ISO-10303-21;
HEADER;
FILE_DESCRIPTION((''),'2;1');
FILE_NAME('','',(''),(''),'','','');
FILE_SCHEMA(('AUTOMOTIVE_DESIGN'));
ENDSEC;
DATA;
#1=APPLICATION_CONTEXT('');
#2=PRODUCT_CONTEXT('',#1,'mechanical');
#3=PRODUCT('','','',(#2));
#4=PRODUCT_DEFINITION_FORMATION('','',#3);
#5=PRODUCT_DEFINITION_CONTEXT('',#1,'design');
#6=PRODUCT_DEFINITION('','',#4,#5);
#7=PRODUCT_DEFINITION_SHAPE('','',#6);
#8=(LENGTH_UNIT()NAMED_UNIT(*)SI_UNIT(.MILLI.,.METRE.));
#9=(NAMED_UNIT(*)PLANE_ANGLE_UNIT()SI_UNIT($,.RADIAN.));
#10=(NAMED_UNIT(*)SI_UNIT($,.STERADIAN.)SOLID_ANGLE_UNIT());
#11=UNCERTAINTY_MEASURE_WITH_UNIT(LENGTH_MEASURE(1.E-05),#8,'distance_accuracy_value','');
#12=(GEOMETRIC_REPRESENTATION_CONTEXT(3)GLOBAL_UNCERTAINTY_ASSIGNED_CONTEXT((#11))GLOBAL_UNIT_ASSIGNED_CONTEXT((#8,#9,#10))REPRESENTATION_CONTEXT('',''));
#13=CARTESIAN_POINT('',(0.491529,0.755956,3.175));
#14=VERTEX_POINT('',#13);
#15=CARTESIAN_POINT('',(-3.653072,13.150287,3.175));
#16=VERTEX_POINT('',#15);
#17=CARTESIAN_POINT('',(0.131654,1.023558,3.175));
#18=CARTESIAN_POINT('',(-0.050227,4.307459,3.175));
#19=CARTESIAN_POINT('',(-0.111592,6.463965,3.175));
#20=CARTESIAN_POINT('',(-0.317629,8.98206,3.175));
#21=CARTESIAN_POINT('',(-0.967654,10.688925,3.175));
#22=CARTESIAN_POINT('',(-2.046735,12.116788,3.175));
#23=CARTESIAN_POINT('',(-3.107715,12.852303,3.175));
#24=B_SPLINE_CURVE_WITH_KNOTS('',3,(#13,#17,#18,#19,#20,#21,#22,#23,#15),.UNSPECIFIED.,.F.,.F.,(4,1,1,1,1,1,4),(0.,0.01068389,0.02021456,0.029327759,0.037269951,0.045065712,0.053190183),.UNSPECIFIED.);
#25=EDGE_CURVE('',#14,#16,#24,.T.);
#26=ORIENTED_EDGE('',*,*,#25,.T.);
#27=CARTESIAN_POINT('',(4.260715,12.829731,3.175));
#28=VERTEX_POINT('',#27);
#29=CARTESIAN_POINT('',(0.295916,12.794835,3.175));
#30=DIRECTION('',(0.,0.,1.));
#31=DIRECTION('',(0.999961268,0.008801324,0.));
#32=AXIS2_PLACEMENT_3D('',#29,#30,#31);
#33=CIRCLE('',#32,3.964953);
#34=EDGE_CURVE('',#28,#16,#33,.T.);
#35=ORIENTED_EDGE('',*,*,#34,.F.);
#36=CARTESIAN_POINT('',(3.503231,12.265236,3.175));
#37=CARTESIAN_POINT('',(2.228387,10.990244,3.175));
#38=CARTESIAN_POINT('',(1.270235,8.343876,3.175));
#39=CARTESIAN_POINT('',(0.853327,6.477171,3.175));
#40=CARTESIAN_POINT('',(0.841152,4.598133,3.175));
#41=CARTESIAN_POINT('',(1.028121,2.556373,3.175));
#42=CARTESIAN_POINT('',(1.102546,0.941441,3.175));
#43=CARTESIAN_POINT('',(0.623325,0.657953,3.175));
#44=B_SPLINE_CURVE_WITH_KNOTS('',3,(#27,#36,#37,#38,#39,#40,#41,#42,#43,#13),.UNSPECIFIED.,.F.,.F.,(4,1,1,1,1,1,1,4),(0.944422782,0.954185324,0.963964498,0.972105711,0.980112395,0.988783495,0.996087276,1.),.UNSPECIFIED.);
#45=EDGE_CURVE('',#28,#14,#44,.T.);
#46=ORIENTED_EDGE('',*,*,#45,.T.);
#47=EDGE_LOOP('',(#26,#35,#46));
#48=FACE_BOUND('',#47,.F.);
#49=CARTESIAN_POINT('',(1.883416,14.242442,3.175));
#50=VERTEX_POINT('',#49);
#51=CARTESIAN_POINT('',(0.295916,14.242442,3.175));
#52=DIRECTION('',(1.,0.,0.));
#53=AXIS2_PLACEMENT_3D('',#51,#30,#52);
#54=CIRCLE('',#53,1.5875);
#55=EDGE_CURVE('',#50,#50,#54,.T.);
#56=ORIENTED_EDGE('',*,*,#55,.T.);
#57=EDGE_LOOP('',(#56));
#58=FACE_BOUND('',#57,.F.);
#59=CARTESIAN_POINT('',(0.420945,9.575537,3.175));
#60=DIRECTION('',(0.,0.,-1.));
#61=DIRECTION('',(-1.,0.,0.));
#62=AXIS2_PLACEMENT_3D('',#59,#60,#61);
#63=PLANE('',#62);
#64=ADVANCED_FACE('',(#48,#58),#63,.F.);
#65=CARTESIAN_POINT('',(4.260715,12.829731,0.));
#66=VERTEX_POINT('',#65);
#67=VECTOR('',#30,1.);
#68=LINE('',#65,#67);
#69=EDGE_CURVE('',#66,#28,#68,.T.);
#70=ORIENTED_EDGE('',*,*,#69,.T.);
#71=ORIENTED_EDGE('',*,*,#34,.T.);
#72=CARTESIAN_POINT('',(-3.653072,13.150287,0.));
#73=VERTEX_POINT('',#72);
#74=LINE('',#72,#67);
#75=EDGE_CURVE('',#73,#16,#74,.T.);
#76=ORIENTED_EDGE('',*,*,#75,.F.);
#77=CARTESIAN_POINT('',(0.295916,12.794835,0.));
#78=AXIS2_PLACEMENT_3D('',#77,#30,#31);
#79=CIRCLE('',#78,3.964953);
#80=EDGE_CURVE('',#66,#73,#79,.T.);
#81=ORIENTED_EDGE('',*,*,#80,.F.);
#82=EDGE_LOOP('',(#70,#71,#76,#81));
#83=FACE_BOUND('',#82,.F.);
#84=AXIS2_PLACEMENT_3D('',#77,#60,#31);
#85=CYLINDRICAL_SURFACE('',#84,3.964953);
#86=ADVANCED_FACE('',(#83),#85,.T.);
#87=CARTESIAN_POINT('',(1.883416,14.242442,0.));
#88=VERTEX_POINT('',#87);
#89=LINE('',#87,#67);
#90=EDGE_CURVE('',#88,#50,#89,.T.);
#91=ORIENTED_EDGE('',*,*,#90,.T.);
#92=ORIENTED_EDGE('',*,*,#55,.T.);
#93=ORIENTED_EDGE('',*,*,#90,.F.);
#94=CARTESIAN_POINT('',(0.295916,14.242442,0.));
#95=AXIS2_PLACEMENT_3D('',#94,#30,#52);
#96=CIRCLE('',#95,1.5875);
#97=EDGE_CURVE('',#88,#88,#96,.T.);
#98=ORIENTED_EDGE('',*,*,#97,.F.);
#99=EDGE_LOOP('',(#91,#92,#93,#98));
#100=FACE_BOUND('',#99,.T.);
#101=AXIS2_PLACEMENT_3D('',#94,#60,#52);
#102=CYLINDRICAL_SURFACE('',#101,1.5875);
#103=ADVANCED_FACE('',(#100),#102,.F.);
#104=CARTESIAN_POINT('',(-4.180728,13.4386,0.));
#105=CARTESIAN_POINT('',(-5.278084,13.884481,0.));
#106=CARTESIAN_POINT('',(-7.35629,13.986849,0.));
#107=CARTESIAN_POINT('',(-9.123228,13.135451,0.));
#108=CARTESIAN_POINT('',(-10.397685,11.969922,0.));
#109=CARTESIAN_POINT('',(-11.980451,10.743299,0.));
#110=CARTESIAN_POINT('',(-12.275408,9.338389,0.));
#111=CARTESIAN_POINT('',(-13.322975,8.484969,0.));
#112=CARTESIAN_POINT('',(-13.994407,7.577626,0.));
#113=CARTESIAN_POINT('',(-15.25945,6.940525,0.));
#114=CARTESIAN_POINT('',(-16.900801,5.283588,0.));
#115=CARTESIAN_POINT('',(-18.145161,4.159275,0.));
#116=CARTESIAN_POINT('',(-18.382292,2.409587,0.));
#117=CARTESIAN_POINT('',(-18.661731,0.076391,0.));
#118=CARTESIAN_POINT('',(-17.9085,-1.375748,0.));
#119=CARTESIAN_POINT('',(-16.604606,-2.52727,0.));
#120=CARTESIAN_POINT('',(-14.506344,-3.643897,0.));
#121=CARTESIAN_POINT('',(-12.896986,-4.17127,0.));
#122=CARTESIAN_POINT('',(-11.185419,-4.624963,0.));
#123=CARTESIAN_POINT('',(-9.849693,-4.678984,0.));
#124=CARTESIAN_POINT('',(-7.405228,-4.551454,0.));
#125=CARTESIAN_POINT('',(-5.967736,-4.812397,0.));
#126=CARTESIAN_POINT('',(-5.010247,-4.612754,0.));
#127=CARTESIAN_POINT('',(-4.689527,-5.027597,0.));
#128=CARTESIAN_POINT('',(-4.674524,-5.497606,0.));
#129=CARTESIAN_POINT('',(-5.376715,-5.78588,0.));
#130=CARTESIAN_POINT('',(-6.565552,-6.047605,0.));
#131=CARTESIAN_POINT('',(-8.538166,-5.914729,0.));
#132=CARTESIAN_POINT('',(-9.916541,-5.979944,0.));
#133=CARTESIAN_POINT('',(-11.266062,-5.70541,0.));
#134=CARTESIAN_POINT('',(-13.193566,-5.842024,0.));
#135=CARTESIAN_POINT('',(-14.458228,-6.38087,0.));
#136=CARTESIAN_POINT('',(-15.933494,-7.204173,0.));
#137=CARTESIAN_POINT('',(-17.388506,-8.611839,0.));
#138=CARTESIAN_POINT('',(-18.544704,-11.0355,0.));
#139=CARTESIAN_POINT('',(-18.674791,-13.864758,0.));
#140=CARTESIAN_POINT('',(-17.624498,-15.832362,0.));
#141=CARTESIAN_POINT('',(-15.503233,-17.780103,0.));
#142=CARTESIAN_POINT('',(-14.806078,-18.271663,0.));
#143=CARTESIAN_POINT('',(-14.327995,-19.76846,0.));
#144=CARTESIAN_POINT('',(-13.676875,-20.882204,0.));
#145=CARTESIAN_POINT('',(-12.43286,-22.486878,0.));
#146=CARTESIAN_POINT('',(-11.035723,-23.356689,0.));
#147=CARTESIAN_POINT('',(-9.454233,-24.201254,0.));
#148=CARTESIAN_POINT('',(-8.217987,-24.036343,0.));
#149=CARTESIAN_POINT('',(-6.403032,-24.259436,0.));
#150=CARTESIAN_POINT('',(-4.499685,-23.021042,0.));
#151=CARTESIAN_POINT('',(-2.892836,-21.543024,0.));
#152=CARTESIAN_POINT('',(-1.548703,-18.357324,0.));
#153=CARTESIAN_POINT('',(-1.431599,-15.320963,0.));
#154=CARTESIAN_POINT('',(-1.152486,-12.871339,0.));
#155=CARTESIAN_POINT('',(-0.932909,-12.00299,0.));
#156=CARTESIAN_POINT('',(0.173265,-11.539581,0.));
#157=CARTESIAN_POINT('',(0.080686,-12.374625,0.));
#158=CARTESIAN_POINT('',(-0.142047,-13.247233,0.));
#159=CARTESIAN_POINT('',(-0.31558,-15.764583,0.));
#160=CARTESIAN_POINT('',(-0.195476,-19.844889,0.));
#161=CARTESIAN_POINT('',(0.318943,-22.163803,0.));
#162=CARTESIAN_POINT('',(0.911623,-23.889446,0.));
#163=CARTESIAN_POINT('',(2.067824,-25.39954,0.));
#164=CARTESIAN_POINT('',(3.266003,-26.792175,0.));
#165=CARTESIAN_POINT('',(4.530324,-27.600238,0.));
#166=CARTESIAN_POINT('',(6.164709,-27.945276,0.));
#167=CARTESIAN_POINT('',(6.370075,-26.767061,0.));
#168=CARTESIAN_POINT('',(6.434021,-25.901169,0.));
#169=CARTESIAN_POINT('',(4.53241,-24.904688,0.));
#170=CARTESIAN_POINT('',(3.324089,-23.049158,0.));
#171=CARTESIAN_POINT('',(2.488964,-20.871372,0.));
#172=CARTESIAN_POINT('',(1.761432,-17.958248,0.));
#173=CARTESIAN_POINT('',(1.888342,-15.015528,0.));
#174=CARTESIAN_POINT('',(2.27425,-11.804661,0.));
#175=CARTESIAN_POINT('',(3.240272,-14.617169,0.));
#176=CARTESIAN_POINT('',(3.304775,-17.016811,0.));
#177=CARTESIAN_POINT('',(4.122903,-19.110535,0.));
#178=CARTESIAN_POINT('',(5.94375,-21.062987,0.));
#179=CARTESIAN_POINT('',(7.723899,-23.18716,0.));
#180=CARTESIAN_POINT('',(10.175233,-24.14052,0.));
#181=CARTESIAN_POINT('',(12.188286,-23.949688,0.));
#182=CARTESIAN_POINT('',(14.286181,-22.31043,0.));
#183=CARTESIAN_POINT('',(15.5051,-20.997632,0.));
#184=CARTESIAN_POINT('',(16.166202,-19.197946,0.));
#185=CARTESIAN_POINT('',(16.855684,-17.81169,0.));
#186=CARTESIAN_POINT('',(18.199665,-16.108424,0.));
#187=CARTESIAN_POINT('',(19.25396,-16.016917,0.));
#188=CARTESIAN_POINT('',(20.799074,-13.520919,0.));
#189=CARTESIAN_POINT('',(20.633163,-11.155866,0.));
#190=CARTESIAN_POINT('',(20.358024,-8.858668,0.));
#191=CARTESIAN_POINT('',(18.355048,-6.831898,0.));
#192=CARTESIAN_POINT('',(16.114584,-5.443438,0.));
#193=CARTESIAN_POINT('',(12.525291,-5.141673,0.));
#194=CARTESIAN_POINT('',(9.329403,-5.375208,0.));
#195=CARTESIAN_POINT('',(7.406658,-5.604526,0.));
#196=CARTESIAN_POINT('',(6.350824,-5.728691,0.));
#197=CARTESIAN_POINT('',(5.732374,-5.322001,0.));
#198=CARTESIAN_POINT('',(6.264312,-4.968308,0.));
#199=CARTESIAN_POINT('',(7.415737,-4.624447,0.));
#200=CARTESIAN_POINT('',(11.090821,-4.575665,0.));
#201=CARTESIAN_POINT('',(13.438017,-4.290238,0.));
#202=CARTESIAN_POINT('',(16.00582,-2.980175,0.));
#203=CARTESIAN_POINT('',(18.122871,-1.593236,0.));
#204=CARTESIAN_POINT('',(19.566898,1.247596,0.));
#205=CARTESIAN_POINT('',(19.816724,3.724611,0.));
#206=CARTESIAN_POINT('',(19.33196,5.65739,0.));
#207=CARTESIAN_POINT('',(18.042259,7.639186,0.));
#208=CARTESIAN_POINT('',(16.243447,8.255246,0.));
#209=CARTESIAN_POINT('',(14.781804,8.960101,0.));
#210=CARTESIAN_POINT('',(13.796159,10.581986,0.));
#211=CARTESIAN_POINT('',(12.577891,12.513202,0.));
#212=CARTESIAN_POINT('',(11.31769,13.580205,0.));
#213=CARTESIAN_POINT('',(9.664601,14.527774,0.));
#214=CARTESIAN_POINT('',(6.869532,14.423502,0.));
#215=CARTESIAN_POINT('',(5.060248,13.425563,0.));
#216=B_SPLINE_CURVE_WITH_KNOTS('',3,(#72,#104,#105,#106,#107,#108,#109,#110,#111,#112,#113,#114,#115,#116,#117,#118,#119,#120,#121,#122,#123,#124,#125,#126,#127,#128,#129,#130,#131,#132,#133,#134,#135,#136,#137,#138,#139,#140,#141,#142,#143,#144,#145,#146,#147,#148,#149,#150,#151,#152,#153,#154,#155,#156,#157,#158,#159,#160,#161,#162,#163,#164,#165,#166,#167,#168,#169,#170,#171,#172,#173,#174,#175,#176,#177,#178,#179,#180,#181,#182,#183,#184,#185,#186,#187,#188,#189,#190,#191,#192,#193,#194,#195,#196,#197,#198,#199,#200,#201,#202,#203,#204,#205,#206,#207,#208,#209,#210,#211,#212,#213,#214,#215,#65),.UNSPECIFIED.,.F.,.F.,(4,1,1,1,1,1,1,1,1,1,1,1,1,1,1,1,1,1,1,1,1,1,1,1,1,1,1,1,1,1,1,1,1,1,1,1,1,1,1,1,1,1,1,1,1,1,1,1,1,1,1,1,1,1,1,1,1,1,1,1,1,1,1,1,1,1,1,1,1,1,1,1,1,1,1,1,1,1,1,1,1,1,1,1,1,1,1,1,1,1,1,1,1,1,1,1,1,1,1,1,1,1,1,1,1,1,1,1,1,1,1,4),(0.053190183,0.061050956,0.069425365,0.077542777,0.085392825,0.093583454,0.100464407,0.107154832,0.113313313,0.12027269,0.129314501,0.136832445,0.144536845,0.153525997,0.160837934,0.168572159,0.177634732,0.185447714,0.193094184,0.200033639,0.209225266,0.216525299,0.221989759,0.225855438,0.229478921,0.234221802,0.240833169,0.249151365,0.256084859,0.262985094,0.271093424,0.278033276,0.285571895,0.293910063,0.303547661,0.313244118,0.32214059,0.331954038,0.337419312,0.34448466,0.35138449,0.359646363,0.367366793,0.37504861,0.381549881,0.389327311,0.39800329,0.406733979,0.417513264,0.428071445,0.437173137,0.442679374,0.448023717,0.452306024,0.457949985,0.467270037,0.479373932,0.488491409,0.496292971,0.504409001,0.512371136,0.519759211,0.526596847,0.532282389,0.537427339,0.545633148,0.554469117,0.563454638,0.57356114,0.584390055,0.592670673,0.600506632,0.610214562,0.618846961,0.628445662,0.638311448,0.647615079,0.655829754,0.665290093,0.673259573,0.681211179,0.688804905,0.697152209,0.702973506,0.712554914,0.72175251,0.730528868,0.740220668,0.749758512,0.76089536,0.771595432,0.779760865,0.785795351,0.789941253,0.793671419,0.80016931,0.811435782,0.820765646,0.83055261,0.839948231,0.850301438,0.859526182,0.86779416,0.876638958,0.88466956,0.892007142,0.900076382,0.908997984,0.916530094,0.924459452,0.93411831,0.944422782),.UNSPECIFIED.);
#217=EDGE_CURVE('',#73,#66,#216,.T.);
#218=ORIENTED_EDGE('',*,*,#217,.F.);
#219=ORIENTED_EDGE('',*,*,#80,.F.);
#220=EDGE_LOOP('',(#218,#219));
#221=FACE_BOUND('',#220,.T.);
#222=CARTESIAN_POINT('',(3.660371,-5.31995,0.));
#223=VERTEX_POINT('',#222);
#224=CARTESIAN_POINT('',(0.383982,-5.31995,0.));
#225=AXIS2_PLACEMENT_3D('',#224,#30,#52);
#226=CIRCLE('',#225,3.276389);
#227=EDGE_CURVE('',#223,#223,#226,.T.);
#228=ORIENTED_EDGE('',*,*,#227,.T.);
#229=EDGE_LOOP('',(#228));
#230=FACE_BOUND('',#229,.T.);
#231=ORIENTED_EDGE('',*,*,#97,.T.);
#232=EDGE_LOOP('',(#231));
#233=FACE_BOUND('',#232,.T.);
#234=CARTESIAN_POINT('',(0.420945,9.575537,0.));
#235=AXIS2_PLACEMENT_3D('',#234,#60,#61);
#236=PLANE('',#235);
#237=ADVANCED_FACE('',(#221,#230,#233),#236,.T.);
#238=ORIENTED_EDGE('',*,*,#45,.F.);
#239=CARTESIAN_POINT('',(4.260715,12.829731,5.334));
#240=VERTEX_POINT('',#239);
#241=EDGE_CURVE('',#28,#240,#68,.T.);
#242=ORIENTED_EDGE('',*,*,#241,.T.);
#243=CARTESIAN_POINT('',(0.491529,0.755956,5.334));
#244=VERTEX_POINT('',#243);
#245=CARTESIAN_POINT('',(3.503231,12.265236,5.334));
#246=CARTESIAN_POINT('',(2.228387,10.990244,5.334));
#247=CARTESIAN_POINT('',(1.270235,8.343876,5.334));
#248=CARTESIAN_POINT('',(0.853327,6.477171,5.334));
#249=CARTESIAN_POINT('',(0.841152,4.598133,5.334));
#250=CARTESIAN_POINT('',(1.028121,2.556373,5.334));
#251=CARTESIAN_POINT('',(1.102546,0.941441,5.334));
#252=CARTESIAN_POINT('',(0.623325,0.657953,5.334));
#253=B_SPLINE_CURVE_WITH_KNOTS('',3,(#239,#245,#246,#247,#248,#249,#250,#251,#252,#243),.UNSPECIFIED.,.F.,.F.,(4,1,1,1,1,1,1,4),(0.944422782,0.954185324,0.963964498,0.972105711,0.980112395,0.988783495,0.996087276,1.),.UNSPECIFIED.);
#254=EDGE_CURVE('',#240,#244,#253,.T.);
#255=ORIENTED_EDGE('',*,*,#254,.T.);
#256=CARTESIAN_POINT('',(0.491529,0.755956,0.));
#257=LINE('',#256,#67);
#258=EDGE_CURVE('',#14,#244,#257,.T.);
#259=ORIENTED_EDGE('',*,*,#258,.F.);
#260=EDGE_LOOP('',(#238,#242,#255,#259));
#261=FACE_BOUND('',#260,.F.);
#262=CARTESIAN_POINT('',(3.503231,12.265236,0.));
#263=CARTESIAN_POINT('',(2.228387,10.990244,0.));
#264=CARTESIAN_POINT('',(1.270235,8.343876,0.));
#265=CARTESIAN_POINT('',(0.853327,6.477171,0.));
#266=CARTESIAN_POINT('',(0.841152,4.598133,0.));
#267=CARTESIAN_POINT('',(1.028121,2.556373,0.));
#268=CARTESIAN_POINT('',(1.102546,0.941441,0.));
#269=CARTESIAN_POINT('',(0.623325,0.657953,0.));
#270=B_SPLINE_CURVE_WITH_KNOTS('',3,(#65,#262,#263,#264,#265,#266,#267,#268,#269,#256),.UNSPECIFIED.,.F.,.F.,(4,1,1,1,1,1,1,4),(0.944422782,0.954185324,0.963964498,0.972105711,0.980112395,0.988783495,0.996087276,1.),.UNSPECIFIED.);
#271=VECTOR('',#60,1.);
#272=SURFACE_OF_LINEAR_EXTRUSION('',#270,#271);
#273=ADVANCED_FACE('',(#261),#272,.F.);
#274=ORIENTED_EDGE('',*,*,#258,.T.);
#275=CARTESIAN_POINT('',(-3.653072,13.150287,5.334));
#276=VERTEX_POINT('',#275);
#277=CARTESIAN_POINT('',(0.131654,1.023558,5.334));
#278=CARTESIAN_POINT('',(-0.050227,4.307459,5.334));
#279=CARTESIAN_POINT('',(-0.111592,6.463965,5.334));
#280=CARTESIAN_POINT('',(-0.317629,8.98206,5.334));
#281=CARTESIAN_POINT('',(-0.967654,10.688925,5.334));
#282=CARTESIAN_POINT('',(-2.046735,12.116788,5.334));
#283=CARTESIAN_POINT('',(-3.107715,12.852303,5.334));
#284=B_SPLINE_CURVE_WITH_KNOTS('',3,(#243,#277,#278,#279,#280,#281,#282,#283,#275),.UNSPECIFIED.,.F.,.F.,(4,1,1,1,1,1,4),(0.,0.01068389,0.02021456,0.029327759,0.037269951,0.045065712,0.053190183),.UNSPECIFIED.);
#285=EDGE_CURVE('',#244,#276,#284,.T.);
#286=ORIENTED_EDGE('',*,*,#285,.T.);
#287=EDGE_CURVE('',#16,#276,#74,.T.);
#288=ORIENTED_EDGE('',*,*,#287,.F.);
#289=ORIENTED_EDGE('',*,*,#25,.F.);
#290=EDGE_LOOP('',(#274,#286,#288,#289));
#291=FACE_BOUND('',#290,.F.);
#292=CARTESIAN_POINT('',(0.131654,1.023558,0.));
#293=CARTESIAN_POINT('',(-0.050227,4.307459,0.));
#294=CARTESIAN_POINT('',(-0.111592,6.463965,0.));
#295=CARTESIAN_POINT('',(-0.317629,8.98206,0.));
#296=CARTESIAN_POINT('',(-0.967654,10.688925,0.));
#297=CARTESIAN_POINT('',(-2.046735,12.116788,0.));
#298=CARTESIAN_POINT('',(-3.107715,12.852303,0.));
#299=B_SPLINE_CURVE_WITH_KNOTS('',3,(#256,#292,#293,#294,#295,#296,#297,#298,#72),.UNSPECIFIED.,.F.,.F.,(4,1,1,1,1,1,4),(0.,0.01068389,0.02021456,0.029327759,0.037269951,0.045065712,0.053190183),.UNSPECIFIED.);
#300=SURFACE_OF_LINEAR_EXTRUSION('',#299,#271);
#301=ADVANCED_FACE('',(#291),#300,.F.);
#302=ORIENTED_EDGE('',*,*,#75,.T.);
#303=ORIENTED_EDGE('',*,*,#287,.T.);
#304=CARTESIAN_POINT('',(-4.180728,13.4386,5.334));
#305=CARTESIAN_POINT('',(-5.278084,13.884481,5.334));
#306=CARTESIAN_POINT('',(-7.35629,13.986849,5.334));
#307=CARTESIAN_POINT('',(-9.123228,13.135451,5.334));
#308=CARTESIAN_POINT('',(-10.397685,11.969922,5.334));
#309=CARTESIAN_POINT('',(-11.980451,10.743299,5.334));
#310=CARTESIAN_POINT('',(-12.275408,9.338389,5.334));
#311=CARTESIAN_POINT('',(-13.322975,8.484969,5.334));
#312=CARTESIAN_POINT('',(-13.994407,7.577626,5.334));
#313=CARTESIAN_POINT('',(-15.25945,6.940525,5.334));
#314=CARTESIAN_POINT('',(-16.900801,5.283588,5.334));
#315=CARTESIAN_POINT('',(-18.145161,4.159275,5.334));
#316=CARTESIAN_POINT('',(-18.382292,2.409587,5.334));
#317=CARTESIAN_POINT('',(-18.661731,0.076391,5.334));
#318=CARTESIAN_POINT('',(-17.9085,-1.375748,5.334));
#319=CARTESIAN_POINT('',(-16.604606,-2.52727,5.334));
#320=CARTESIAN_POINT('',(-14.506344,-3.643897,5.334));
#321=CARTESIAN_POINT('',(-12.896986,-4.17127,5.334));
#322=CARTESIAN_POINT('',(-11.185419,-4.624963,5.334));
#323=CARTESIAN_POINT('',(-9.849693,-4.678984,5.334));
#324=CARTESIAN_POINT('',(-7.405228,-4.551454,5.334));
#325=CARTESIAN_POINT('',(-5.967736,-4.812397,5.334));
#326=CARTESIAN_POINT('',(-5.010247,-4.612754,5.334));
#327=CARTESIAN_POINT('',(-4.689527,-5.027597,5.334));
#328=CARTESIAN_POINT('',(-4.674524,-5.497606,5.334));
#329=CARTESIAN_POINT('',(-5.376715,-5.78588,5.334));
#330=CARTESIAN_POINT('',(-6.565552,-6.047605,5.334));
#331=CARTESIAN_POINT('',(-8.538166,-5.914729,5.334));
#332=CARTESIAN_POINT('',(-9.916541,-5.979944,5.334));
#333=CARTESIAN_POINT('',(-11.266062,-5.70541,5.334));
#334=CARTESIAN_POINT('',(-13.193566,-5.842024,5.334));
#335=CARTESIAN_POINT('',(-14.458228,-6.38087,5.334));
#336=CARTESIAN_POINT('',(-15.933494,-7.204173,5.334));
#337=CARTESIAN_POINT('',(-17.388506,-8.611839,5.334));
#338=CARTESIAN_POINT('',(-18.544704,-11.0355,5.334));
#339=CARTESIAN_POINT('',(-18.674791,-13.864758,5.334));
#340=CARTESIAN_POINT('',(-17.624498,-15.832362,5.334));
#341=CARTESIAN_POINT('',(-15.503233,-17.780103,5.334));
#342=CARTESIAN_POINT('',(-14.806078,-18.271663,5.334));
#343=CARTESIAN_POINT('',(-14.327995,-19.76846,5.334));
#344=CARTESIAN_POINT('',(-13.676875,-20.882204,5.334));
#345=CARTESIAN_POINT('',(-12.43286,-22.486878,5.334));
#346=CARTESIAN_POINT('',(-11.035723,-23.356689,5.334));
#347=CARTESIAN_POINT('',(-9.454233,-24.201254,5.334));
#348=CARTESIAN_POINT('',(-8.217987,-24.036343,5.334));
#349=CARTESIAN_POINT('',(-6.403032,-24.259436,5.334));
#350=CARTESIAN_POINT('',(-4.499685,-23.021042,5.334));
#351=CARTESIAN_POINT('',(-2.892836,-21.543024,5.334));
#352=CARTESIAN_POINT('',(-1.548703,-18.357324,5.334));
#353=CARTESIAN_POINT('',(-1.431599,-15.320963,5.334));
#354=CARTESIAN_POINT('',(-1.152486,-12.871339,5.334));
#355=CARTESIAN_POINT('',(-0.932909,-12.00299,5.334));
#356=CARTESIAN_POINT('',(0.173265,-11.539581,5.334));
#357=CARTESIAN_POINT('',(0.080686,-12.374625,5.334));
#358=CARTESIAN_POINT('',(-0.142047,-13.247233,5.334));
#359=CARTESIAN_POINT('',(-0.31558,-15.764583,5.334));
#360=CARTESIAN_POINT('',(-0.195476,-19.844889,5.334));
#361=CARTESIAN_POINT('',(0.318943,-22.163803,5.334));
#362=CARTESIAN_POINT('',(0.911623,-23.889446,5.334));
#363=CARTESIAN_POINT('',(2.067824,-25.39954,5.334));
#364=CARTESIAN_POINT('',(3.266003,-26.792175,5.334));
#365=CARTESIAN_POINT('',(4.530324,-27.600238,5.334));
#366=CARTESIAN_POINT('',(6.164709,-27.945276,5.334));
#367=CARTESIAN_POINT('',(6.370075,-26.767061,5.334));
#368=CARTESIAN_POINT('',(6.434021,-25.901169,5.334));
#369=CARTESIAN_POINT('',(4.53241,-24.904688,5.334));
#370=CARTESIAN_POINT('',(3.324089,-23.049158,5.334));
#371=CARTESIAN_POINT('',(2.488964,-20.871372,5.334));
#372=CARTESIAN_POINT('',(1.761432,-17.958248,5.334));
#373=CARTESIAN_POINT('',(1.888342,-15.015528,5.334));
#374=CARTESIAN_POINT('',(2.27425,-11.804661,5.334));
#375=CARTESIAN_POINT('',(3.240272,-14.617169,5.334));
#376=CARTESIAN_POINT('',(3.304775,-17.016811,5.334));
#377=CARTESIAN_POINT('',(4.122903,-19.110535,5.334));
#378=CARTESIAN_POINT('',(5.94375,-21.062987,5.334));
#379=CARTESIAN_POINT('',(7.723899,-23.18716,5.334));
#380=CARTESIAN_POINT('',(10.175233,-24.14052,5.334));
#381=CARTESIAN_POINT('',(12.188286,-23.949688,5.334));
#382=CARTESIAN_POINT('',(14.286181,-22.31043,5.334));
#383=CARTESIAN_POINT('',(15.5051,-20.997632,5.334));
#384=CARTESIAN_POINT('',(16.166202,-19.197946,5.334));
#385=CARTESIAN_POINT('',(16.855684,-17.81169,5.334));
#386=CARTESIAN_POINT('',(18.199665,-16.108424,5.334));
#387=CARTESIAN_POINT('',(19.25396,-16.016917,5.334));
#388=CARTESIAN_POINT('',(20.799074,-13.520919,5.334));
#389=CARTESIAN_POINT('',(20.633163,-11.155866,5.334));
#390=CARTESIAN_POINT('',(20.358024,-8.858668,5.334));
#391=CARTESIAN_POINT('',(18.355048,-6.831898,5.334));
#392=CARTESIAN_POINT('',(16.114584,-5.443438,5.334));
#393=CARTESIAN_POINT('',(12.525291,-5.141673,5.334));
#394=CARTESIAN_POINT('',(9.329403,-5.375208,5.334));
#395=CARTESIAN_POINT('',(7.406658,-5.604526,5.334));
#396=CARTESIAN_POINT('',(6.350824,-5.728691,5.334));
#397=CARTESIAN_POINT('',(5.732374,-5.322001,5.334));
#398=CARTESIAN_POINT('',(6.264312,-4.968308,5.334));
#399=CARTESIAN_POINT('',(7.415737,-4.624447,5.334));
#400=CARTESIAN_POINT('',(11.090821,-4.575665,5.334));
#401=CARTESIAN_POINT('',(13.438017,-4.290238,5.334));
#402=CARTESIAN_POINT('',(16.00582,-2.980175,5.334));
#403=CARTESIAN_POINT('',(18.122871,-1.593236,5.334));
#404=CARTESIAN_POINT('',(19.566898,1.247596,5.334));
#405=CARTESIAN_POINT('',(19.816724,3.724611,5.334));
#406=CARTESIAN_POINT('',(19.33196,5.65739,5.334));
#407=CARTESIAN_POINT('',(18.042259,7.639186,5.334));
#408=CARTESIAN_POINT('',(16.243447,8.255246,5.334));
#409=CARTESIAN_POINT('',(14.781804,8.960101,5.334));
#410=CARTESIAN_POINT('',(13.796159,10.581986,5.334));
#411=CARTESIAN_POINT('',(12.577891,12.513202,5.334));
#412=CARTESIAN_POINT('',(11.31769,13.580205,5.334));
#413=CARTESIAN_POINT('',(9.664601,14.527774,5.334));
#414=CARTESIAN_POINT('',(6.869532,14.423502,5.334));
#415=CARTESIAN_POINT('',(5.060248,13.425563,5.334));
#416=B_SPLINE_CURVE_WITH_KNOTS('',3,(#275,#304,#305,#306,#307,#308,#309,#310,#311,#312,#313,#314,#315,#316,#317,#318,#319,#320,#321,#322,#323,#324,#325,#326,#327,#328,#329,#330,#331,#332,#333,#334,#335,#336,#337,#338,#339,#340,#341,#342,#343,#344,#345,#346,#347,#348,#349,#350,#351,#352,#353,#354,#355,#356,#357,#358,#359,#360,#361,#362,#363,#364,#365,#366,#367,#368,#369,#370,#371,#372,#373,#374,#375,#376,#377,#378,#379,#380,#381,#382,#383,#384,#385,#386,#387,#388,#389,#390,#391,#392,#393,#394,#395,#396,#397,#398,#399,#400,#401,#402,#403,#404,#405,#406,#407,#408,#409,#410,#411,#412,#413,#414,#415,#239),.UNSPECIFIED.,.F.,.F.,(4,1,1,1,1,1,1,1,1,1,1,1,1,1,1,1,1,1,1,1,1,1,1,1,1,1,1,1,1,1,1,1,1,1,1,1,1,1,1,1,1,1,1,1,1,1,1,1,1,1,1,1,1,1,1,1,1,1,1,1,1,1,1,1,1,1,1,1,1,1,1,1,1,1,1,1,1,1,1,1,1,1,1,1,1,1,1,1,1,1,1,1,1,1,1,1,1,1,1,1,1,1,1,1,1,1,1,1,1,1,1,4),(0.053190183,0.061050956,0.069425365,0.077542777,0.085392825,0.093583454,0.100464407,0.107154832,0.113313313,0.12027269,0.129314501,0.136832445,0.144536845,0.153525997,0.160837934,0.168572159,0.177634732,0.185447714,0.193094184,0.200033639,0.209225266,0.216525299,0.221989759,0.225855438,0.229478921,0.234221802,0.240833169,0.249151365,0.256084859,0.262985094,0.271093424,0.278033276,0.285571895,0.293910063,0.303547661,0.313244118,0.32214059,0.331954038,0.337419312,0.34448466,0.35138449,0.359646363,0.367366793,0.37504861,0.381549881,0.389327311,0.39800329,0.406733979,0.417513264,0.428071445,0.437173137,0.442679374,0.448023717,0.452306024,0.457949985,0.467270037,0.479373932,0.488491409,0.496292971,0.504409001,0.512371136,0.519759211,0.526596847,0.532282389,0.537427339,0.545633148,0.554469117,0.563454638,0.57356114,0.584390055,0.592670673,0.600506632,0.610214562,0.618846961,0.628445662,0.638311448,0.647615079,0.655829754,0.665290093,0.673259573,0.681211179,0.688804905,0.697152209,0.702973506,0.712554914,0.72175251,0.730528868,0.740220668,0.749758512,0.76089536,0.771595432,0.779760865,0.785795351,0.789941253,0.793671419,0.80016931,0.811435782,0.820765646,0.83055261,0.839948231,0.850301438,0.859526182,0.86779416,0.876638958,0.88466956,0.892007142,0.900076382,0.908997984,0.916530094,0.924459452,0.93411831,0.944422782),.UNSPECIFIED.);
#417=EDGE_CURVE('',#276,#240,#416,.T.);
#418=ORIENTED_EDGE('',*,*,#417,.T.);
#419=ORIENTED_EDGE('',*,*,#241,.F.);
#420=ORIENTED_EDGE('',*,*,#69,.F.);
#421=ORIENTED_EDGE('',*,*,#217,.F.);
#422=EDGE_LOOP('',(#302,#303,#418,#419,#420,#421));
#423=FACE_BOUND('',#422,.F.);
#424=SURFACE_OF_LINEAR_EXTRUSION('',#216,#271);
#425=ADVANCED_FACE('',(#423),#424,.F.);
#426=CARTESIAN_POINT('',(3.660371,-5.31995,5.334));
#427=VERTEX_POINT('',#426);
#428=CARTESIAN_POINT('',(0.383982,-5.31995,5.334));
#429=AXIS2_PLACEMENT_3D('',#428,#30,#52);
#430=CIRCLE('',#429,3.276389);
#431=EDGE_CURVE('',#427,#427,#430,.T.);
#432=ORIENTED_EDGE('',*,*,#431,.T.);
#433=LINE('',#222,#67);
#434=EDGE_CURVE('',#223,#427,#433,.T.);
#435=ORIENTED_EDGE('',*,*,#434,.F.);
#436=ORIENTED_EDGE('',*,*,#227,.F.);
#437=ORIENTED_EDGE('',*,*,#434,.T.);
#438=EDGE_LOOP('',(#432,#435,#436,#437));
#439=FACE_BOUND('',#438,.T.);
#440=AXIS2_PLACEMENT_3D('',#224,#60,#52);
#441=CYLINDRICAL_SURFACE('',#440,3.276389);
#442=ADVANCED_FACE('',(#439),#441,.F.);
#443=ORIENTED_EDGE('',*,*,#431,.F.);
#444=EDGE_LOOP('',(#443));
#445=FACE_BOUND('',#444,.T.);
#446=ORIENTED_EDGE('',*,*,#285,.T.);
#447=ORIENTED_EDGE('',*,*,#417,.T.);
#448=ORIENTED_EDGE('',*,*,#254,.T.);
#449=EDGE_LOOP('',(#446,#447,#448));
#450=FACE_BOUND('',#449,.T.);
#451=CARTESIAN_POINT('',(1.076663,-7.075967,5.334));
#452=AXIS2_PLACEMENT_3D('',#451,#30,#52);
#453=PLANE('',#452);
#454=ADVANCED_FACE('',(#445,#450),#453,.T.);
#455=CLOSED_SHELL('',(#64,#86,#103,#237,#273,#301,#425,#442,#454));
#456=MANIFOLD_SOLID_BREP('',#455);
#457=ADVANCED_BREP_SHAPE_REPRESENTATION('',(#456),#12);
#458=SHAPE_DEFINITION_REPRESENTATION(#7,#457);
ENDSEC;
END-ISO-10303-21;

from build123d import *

# Parameters (mm, degrees)
F0_R     = 3.2763894556
F1_DEPTH = 5.334
F0_R_2   = 1.5875
F2_DEPTH = 3.175


with BuildPart() as f1:
    # F0 (on Top) → F1 (new body)
    with BuildSketch(Plane.XY):
        with BuildLine():
            add(Edge.make_bspline(
                [(4.2607149333, 12.8297314506), (3.5032311004, 12.2652357072), (2.2283869621, 10.9902436935), (1.2702354656, 8.343875954), (0.8533272252, 6.4771708235), (0.8411521684, 4.5981331025), (1.0281213902, 2.5563728927), (1.1025464093, 0.9414410157), (0.6233250205, 0.6579533506), (0.4915293205, 0.7559561913)],
                knots=[0.9444227819, 0.9444227819, 0.9444227819, 0.9444227819, 0.9541853238, 0.9639644984, 0.972105711, 0.9801123951, 0.9887834955, 0.9960872761, 1, 1, 1, 1], degree=3))
            add(Edge.make_bspline(
                [(0.4915293205, 0.7559561913), (0.1316544939, 1.0235579061), (-0.0502268387, 4.3074590105), (-0.1115923863, 6.463965292), (-0.3176290143, 8.982060071), (-0.9676536038, 10.688924611), (-2.0467345601, 12.1167883346), (-3.1077147511, 12.8523025643), (-3.6530715951, 13.1502869737)],
                knots=[0, 0, 0, 0, 0.0106838905, 0.0202145603, 0.0293277593, 0.0372699508, 0.0450657123, 0.053190183, 0.053190183, 0.053190183, 0.053190183], degree=3))
            add(Edge.make_bspline(
                [(-3.6530715951, 13.1502869737), (-4.1807276665, 13.4385996346), (-5.2780844552, 13.8844809657), (-7.3562904767, 13.986849408), (-9.123228133, 13.1354513681), (-10.3976852431, 11.9699217377), (-11.9804509787, 10.7432987686), (-12.2754079159, 9.3383892417), (-13.3229748755, 8.4849692331), (-13.9944067968, 7.5776259246), (-15.2594502022, 6.9405253711), (-16.9008011686, 5.2835883786), (-18.1451605821, 4.1592751473), (-18.3822916734, 2.4095866184), (-18.6617312051, 0.0763914338), (-17.908500496, -1.375747514), (-16.6046060195, -2.5272697505), (-14.5063438502, -3.6438972892), (-12.8969863132, -4.1712700301), (-11.1854188144, -4.6249631531), (-9.849693173, -4.6789838073), (-7.4052280169, -4.551453669), (-5.9677364613, -4.8123968368), (-5.0102473967, -4.6127538689), (-4.6895266797, -5.0275969078), (-4.6745236848, -5.4976064055), (-5.3767146338, -5.7858799793), (-6.5655517865, -6.0476052692), (-8.5381661071, -5.9147290172), (-9.916541143, -5.9799443354), (-11.2660615462, -5.7054100315), (-13.1935663388, -5.8420240947), (-14.4582279276, -6.380869502), (-15.9334941203, -7.2041729572), (-17.3885060878, -8.6118388734), (-18.5447037361, -11.0354998135), (-18.6747909244, -13.8647582967), (-17.624497728, -15.8323619522), (-15.5032334134, -17.7801028643), (-14.8060779162, -18.2716631337), (-14.3279948757, -19.7684595986), (-13.6768749058, -20.8822037035), (-12.4328600741, -22.4868775006), (-11.0357229162, -23.3566885428), (-9.4542327344, -24.2012541005), (-8.2179874385, -24.0363430614), (-6.4030315304, -24.2594364586), (-4.4996847525, -23.0210421187), (-2.8928361233, -21.5430241266), (-1.5487029086, -18.3573236929), (-1.4315987798, -15.3209632728), (-1.1524860857, -12.8713385004), (-0.9329088817, -12.0029897119), (0.1732652684, -11.5395809185), (0.0806862491, -12.374625202), (-0.1420474106, -13.247233069), (-0.3155800652, -15.7645827513), (-0.1954759264, -19.8448889243), (0.3189426111, -22.1638030919), (0.9116228054, -23.8894458797), (2.067824187, -25.3995400201), (3.2660030865, -26.7921745924), (4.5303238105, -27.6002380345), (6.1647091109, -27.94527629), (6.370075363, -26.7670610788), (6.4340212942, -25.9011690989), (4.5324099628, -24.9046884501), (3.3240892725, -23.0491579473), (2.4889637187, -20.8713724035), (1.7614321844, -17.95824793), (1.8883415439, -15.0155282523), (2.2742504409, -11.8046608417), (3.2402717418, -14.6171685657), (3.3047745269, -17.0168113111), (4.1229025126, -19.1105352318), (5.9437503856, -21.062986659), (7.7238991136, -23.1871602445), (10.1752328184, -24.1405201761), (12.1882857849, -23.9496877514), (14.2861810228, -22.3104301999), (15.505100062, -20.9976315308), (16.166201691, -19.1979457987), (16.8556835389, -17.8116903662), (18.199665096, -16.1084239332), (19.2539603676, -16.0169167188), (20.7990736145, -13.5209187527), (20.6331628106, -11.1558660418), (20.3580240597, -8.8586677361), (18.3550479292, -6.8318984493), (16.1145835769, -5.443437763), (12.5252908727, -5.1416728648), (9.3294029662, -5.3752080107), (7.4066580398, -5.6045263127), (6.3508237148, -5.7286912569), (5.7323735106, -5.3220012808), (6.2643116757, -4.9683080046), (7.4157368185, -4.6244466571), (11.0908205027, -4.5756653678), (13.4380169701, -4.2902384237), (16.0058196004, -2.9801745188), (18.1228705281, -1.5932359343), (19.5668984596, 1.2475959685), (19.8167235594, 3.7246109258), (19.3319604586, 5.6573895489), (18.0422594834, 7.6391859171), (16.24344659, 8.2552460543), (14.7818044595, 8.9601014865), (13.7961588785, 10.5819864765), (12.5778908644, 12.5132019794), (11.3176898943, 13.5802050689), (9.6646012965, 14.5277742084), (6.869532005, 14.4235020495), (5.0602475653, 13.4255630022), (4.2607149333, 12.8297314506)],
                knots=[0.053190183, 0.053190183, 0.053190183, 0.053190183, 0.0610509559, 0.0694253652, 0.0775427769, 0.0853928249, 0.0935834539, 0.100464407, 0.1071548318, 0.1133133126, 0.1202726904, 0.1293145011, 0.1368324446, 0.1445368453, 0.1535259974, 0.1608379342, 0.1685721591, 0.1776347318, 0.1854477136, 0.1930941839, 0.2000336393, 0.2092252662, 0.2165252994, 0.2219897587, 0.2258554375, 0.2294789209, 0.2342218025, 0.2408331694, 0.2491513654, 0.2560848586, 0.262985094, 0.271093424, 0.278033276, 0.285571895, 0.2939100625, 0.3035476607, 0.313244118, 0.3221405897, 0.3319540384, 0.3374193119, 0.3444846601, 0.3513844903, 0.359646363, 0.3673667928, 0.3750486103, 0.3815498814, 0.3893273114, 0.3980032895, 0.4067339794, 0.4175132641, 0.4280714449, 0.4371731374, 0.4426793736, 0.4480237167, 0.4523060237, 0.4579499846, 0.4672700369, 0.4793739321, 0.4884914095, 0.4962929709, 0.5044090007, 0.5123711363, 0.5197592114, 0.5265968471, 0.5322823888, 0.5374273386, 0.5456331483, 0.5544691167, 0.5634546384, 0.5735611403, 0.5843900551, 0.5926706733, 0.600506632, 0.6102145621, 0.618846961, 0.6284456624, 0.6383114483, 0.6476150786, 0.6558297539, 0.6652900929, 0.6732595729, 0.6812111795, 0.6888049048, 0.697152209, 0.702973506, 0.7125549136, 0.7217525097, 0.7305288679, 0.7402206682, 0.7497585116, 0.7608953603, 0.7715954316, 0.7797608651, 0.7857953513, 0.7899412526, 0.7936714185, 0.8001693104, 0.8114357824, 0.8207656463, 0.8305526096, 0.8399482313, 0.850301438, 0.8595261822, 0.8677941599, 0.8766389581, 0.8846695596, 0.8920071419, 0.9000763825, 0.9089979835, 0.9165300935, 0.9244594522, 0.9341183101, 0.9444227819, 0.9444227819, 0.9444227819, 0.9444227819], degree=3))
        make_face()
        with Locations((0.383981949, -5.3199501891)):
            Circle(F0_R, mode=Mode.SUBTRACT)
    extrude(amount=F1_DEPTH)

    # F0 (on Top) → F2 (join)
    with BuildSketch(Plane.XY):
        with BuildLine():
            add(Edge.make_bspline(
                [(0.4915293205, 0.7559561913), (0.1316544939, 1.0235579061), (-0.0502268387, 4.3074590105), (-0.1115923863, 6.463965292), (-0.3176290143, 8.982060071), (-0.9676536038, 10.688924611), (-2.0467345601, 12.1167883346), (-3.1077147511, 12.8523025643), (-3.6530715951, 13.1502869737)],
                knots=[0, 0, 0, 0, 0.0106838905, 0.0202145603, 0.0293277593, 0.0372699508, 0.0450657123, 0.053190183, 0.053190183, 0.053190183, 0.053190183], degree=3))
            add(Edge.make_bspline(
                [(4.2607149333, 12.8297314506), (3.5032311004, 12.2652357072), (2.2283869621, 10.9902436935), (1.2702354656, 8.343875954), (0.8533272252, 6.4771708235), (0.8411521684, 4.5981331025), (1.0281213902, 2.5563728927), (1.1025464093, 0.9414410157), (0.6233250205, 0.6579533506), (0.4915293205, 0.7559561913)],
                knots=[0.9444227819, 0.9444227819, 0.9444227819, 0.9444227819, 0.9541853238, 0.9639644984, 0.972105711, 0.9801123951, 0.9887834955, 0.9960872761, 1, 1, 1, 1], degree=3))
            ThreePointArc((4.2607149333, 12.8297314506), (0.4563885539, 16.7565384721), (-3.6530715951, 13.1502869737))
        make_face()
        with Locations((0.2959159347, 14.2424419779)):
            Circle(F0_R_2, mode=Mode.SUBTRACT)
    extrude(amount=F2_DEPTH)


solid = f1.part
